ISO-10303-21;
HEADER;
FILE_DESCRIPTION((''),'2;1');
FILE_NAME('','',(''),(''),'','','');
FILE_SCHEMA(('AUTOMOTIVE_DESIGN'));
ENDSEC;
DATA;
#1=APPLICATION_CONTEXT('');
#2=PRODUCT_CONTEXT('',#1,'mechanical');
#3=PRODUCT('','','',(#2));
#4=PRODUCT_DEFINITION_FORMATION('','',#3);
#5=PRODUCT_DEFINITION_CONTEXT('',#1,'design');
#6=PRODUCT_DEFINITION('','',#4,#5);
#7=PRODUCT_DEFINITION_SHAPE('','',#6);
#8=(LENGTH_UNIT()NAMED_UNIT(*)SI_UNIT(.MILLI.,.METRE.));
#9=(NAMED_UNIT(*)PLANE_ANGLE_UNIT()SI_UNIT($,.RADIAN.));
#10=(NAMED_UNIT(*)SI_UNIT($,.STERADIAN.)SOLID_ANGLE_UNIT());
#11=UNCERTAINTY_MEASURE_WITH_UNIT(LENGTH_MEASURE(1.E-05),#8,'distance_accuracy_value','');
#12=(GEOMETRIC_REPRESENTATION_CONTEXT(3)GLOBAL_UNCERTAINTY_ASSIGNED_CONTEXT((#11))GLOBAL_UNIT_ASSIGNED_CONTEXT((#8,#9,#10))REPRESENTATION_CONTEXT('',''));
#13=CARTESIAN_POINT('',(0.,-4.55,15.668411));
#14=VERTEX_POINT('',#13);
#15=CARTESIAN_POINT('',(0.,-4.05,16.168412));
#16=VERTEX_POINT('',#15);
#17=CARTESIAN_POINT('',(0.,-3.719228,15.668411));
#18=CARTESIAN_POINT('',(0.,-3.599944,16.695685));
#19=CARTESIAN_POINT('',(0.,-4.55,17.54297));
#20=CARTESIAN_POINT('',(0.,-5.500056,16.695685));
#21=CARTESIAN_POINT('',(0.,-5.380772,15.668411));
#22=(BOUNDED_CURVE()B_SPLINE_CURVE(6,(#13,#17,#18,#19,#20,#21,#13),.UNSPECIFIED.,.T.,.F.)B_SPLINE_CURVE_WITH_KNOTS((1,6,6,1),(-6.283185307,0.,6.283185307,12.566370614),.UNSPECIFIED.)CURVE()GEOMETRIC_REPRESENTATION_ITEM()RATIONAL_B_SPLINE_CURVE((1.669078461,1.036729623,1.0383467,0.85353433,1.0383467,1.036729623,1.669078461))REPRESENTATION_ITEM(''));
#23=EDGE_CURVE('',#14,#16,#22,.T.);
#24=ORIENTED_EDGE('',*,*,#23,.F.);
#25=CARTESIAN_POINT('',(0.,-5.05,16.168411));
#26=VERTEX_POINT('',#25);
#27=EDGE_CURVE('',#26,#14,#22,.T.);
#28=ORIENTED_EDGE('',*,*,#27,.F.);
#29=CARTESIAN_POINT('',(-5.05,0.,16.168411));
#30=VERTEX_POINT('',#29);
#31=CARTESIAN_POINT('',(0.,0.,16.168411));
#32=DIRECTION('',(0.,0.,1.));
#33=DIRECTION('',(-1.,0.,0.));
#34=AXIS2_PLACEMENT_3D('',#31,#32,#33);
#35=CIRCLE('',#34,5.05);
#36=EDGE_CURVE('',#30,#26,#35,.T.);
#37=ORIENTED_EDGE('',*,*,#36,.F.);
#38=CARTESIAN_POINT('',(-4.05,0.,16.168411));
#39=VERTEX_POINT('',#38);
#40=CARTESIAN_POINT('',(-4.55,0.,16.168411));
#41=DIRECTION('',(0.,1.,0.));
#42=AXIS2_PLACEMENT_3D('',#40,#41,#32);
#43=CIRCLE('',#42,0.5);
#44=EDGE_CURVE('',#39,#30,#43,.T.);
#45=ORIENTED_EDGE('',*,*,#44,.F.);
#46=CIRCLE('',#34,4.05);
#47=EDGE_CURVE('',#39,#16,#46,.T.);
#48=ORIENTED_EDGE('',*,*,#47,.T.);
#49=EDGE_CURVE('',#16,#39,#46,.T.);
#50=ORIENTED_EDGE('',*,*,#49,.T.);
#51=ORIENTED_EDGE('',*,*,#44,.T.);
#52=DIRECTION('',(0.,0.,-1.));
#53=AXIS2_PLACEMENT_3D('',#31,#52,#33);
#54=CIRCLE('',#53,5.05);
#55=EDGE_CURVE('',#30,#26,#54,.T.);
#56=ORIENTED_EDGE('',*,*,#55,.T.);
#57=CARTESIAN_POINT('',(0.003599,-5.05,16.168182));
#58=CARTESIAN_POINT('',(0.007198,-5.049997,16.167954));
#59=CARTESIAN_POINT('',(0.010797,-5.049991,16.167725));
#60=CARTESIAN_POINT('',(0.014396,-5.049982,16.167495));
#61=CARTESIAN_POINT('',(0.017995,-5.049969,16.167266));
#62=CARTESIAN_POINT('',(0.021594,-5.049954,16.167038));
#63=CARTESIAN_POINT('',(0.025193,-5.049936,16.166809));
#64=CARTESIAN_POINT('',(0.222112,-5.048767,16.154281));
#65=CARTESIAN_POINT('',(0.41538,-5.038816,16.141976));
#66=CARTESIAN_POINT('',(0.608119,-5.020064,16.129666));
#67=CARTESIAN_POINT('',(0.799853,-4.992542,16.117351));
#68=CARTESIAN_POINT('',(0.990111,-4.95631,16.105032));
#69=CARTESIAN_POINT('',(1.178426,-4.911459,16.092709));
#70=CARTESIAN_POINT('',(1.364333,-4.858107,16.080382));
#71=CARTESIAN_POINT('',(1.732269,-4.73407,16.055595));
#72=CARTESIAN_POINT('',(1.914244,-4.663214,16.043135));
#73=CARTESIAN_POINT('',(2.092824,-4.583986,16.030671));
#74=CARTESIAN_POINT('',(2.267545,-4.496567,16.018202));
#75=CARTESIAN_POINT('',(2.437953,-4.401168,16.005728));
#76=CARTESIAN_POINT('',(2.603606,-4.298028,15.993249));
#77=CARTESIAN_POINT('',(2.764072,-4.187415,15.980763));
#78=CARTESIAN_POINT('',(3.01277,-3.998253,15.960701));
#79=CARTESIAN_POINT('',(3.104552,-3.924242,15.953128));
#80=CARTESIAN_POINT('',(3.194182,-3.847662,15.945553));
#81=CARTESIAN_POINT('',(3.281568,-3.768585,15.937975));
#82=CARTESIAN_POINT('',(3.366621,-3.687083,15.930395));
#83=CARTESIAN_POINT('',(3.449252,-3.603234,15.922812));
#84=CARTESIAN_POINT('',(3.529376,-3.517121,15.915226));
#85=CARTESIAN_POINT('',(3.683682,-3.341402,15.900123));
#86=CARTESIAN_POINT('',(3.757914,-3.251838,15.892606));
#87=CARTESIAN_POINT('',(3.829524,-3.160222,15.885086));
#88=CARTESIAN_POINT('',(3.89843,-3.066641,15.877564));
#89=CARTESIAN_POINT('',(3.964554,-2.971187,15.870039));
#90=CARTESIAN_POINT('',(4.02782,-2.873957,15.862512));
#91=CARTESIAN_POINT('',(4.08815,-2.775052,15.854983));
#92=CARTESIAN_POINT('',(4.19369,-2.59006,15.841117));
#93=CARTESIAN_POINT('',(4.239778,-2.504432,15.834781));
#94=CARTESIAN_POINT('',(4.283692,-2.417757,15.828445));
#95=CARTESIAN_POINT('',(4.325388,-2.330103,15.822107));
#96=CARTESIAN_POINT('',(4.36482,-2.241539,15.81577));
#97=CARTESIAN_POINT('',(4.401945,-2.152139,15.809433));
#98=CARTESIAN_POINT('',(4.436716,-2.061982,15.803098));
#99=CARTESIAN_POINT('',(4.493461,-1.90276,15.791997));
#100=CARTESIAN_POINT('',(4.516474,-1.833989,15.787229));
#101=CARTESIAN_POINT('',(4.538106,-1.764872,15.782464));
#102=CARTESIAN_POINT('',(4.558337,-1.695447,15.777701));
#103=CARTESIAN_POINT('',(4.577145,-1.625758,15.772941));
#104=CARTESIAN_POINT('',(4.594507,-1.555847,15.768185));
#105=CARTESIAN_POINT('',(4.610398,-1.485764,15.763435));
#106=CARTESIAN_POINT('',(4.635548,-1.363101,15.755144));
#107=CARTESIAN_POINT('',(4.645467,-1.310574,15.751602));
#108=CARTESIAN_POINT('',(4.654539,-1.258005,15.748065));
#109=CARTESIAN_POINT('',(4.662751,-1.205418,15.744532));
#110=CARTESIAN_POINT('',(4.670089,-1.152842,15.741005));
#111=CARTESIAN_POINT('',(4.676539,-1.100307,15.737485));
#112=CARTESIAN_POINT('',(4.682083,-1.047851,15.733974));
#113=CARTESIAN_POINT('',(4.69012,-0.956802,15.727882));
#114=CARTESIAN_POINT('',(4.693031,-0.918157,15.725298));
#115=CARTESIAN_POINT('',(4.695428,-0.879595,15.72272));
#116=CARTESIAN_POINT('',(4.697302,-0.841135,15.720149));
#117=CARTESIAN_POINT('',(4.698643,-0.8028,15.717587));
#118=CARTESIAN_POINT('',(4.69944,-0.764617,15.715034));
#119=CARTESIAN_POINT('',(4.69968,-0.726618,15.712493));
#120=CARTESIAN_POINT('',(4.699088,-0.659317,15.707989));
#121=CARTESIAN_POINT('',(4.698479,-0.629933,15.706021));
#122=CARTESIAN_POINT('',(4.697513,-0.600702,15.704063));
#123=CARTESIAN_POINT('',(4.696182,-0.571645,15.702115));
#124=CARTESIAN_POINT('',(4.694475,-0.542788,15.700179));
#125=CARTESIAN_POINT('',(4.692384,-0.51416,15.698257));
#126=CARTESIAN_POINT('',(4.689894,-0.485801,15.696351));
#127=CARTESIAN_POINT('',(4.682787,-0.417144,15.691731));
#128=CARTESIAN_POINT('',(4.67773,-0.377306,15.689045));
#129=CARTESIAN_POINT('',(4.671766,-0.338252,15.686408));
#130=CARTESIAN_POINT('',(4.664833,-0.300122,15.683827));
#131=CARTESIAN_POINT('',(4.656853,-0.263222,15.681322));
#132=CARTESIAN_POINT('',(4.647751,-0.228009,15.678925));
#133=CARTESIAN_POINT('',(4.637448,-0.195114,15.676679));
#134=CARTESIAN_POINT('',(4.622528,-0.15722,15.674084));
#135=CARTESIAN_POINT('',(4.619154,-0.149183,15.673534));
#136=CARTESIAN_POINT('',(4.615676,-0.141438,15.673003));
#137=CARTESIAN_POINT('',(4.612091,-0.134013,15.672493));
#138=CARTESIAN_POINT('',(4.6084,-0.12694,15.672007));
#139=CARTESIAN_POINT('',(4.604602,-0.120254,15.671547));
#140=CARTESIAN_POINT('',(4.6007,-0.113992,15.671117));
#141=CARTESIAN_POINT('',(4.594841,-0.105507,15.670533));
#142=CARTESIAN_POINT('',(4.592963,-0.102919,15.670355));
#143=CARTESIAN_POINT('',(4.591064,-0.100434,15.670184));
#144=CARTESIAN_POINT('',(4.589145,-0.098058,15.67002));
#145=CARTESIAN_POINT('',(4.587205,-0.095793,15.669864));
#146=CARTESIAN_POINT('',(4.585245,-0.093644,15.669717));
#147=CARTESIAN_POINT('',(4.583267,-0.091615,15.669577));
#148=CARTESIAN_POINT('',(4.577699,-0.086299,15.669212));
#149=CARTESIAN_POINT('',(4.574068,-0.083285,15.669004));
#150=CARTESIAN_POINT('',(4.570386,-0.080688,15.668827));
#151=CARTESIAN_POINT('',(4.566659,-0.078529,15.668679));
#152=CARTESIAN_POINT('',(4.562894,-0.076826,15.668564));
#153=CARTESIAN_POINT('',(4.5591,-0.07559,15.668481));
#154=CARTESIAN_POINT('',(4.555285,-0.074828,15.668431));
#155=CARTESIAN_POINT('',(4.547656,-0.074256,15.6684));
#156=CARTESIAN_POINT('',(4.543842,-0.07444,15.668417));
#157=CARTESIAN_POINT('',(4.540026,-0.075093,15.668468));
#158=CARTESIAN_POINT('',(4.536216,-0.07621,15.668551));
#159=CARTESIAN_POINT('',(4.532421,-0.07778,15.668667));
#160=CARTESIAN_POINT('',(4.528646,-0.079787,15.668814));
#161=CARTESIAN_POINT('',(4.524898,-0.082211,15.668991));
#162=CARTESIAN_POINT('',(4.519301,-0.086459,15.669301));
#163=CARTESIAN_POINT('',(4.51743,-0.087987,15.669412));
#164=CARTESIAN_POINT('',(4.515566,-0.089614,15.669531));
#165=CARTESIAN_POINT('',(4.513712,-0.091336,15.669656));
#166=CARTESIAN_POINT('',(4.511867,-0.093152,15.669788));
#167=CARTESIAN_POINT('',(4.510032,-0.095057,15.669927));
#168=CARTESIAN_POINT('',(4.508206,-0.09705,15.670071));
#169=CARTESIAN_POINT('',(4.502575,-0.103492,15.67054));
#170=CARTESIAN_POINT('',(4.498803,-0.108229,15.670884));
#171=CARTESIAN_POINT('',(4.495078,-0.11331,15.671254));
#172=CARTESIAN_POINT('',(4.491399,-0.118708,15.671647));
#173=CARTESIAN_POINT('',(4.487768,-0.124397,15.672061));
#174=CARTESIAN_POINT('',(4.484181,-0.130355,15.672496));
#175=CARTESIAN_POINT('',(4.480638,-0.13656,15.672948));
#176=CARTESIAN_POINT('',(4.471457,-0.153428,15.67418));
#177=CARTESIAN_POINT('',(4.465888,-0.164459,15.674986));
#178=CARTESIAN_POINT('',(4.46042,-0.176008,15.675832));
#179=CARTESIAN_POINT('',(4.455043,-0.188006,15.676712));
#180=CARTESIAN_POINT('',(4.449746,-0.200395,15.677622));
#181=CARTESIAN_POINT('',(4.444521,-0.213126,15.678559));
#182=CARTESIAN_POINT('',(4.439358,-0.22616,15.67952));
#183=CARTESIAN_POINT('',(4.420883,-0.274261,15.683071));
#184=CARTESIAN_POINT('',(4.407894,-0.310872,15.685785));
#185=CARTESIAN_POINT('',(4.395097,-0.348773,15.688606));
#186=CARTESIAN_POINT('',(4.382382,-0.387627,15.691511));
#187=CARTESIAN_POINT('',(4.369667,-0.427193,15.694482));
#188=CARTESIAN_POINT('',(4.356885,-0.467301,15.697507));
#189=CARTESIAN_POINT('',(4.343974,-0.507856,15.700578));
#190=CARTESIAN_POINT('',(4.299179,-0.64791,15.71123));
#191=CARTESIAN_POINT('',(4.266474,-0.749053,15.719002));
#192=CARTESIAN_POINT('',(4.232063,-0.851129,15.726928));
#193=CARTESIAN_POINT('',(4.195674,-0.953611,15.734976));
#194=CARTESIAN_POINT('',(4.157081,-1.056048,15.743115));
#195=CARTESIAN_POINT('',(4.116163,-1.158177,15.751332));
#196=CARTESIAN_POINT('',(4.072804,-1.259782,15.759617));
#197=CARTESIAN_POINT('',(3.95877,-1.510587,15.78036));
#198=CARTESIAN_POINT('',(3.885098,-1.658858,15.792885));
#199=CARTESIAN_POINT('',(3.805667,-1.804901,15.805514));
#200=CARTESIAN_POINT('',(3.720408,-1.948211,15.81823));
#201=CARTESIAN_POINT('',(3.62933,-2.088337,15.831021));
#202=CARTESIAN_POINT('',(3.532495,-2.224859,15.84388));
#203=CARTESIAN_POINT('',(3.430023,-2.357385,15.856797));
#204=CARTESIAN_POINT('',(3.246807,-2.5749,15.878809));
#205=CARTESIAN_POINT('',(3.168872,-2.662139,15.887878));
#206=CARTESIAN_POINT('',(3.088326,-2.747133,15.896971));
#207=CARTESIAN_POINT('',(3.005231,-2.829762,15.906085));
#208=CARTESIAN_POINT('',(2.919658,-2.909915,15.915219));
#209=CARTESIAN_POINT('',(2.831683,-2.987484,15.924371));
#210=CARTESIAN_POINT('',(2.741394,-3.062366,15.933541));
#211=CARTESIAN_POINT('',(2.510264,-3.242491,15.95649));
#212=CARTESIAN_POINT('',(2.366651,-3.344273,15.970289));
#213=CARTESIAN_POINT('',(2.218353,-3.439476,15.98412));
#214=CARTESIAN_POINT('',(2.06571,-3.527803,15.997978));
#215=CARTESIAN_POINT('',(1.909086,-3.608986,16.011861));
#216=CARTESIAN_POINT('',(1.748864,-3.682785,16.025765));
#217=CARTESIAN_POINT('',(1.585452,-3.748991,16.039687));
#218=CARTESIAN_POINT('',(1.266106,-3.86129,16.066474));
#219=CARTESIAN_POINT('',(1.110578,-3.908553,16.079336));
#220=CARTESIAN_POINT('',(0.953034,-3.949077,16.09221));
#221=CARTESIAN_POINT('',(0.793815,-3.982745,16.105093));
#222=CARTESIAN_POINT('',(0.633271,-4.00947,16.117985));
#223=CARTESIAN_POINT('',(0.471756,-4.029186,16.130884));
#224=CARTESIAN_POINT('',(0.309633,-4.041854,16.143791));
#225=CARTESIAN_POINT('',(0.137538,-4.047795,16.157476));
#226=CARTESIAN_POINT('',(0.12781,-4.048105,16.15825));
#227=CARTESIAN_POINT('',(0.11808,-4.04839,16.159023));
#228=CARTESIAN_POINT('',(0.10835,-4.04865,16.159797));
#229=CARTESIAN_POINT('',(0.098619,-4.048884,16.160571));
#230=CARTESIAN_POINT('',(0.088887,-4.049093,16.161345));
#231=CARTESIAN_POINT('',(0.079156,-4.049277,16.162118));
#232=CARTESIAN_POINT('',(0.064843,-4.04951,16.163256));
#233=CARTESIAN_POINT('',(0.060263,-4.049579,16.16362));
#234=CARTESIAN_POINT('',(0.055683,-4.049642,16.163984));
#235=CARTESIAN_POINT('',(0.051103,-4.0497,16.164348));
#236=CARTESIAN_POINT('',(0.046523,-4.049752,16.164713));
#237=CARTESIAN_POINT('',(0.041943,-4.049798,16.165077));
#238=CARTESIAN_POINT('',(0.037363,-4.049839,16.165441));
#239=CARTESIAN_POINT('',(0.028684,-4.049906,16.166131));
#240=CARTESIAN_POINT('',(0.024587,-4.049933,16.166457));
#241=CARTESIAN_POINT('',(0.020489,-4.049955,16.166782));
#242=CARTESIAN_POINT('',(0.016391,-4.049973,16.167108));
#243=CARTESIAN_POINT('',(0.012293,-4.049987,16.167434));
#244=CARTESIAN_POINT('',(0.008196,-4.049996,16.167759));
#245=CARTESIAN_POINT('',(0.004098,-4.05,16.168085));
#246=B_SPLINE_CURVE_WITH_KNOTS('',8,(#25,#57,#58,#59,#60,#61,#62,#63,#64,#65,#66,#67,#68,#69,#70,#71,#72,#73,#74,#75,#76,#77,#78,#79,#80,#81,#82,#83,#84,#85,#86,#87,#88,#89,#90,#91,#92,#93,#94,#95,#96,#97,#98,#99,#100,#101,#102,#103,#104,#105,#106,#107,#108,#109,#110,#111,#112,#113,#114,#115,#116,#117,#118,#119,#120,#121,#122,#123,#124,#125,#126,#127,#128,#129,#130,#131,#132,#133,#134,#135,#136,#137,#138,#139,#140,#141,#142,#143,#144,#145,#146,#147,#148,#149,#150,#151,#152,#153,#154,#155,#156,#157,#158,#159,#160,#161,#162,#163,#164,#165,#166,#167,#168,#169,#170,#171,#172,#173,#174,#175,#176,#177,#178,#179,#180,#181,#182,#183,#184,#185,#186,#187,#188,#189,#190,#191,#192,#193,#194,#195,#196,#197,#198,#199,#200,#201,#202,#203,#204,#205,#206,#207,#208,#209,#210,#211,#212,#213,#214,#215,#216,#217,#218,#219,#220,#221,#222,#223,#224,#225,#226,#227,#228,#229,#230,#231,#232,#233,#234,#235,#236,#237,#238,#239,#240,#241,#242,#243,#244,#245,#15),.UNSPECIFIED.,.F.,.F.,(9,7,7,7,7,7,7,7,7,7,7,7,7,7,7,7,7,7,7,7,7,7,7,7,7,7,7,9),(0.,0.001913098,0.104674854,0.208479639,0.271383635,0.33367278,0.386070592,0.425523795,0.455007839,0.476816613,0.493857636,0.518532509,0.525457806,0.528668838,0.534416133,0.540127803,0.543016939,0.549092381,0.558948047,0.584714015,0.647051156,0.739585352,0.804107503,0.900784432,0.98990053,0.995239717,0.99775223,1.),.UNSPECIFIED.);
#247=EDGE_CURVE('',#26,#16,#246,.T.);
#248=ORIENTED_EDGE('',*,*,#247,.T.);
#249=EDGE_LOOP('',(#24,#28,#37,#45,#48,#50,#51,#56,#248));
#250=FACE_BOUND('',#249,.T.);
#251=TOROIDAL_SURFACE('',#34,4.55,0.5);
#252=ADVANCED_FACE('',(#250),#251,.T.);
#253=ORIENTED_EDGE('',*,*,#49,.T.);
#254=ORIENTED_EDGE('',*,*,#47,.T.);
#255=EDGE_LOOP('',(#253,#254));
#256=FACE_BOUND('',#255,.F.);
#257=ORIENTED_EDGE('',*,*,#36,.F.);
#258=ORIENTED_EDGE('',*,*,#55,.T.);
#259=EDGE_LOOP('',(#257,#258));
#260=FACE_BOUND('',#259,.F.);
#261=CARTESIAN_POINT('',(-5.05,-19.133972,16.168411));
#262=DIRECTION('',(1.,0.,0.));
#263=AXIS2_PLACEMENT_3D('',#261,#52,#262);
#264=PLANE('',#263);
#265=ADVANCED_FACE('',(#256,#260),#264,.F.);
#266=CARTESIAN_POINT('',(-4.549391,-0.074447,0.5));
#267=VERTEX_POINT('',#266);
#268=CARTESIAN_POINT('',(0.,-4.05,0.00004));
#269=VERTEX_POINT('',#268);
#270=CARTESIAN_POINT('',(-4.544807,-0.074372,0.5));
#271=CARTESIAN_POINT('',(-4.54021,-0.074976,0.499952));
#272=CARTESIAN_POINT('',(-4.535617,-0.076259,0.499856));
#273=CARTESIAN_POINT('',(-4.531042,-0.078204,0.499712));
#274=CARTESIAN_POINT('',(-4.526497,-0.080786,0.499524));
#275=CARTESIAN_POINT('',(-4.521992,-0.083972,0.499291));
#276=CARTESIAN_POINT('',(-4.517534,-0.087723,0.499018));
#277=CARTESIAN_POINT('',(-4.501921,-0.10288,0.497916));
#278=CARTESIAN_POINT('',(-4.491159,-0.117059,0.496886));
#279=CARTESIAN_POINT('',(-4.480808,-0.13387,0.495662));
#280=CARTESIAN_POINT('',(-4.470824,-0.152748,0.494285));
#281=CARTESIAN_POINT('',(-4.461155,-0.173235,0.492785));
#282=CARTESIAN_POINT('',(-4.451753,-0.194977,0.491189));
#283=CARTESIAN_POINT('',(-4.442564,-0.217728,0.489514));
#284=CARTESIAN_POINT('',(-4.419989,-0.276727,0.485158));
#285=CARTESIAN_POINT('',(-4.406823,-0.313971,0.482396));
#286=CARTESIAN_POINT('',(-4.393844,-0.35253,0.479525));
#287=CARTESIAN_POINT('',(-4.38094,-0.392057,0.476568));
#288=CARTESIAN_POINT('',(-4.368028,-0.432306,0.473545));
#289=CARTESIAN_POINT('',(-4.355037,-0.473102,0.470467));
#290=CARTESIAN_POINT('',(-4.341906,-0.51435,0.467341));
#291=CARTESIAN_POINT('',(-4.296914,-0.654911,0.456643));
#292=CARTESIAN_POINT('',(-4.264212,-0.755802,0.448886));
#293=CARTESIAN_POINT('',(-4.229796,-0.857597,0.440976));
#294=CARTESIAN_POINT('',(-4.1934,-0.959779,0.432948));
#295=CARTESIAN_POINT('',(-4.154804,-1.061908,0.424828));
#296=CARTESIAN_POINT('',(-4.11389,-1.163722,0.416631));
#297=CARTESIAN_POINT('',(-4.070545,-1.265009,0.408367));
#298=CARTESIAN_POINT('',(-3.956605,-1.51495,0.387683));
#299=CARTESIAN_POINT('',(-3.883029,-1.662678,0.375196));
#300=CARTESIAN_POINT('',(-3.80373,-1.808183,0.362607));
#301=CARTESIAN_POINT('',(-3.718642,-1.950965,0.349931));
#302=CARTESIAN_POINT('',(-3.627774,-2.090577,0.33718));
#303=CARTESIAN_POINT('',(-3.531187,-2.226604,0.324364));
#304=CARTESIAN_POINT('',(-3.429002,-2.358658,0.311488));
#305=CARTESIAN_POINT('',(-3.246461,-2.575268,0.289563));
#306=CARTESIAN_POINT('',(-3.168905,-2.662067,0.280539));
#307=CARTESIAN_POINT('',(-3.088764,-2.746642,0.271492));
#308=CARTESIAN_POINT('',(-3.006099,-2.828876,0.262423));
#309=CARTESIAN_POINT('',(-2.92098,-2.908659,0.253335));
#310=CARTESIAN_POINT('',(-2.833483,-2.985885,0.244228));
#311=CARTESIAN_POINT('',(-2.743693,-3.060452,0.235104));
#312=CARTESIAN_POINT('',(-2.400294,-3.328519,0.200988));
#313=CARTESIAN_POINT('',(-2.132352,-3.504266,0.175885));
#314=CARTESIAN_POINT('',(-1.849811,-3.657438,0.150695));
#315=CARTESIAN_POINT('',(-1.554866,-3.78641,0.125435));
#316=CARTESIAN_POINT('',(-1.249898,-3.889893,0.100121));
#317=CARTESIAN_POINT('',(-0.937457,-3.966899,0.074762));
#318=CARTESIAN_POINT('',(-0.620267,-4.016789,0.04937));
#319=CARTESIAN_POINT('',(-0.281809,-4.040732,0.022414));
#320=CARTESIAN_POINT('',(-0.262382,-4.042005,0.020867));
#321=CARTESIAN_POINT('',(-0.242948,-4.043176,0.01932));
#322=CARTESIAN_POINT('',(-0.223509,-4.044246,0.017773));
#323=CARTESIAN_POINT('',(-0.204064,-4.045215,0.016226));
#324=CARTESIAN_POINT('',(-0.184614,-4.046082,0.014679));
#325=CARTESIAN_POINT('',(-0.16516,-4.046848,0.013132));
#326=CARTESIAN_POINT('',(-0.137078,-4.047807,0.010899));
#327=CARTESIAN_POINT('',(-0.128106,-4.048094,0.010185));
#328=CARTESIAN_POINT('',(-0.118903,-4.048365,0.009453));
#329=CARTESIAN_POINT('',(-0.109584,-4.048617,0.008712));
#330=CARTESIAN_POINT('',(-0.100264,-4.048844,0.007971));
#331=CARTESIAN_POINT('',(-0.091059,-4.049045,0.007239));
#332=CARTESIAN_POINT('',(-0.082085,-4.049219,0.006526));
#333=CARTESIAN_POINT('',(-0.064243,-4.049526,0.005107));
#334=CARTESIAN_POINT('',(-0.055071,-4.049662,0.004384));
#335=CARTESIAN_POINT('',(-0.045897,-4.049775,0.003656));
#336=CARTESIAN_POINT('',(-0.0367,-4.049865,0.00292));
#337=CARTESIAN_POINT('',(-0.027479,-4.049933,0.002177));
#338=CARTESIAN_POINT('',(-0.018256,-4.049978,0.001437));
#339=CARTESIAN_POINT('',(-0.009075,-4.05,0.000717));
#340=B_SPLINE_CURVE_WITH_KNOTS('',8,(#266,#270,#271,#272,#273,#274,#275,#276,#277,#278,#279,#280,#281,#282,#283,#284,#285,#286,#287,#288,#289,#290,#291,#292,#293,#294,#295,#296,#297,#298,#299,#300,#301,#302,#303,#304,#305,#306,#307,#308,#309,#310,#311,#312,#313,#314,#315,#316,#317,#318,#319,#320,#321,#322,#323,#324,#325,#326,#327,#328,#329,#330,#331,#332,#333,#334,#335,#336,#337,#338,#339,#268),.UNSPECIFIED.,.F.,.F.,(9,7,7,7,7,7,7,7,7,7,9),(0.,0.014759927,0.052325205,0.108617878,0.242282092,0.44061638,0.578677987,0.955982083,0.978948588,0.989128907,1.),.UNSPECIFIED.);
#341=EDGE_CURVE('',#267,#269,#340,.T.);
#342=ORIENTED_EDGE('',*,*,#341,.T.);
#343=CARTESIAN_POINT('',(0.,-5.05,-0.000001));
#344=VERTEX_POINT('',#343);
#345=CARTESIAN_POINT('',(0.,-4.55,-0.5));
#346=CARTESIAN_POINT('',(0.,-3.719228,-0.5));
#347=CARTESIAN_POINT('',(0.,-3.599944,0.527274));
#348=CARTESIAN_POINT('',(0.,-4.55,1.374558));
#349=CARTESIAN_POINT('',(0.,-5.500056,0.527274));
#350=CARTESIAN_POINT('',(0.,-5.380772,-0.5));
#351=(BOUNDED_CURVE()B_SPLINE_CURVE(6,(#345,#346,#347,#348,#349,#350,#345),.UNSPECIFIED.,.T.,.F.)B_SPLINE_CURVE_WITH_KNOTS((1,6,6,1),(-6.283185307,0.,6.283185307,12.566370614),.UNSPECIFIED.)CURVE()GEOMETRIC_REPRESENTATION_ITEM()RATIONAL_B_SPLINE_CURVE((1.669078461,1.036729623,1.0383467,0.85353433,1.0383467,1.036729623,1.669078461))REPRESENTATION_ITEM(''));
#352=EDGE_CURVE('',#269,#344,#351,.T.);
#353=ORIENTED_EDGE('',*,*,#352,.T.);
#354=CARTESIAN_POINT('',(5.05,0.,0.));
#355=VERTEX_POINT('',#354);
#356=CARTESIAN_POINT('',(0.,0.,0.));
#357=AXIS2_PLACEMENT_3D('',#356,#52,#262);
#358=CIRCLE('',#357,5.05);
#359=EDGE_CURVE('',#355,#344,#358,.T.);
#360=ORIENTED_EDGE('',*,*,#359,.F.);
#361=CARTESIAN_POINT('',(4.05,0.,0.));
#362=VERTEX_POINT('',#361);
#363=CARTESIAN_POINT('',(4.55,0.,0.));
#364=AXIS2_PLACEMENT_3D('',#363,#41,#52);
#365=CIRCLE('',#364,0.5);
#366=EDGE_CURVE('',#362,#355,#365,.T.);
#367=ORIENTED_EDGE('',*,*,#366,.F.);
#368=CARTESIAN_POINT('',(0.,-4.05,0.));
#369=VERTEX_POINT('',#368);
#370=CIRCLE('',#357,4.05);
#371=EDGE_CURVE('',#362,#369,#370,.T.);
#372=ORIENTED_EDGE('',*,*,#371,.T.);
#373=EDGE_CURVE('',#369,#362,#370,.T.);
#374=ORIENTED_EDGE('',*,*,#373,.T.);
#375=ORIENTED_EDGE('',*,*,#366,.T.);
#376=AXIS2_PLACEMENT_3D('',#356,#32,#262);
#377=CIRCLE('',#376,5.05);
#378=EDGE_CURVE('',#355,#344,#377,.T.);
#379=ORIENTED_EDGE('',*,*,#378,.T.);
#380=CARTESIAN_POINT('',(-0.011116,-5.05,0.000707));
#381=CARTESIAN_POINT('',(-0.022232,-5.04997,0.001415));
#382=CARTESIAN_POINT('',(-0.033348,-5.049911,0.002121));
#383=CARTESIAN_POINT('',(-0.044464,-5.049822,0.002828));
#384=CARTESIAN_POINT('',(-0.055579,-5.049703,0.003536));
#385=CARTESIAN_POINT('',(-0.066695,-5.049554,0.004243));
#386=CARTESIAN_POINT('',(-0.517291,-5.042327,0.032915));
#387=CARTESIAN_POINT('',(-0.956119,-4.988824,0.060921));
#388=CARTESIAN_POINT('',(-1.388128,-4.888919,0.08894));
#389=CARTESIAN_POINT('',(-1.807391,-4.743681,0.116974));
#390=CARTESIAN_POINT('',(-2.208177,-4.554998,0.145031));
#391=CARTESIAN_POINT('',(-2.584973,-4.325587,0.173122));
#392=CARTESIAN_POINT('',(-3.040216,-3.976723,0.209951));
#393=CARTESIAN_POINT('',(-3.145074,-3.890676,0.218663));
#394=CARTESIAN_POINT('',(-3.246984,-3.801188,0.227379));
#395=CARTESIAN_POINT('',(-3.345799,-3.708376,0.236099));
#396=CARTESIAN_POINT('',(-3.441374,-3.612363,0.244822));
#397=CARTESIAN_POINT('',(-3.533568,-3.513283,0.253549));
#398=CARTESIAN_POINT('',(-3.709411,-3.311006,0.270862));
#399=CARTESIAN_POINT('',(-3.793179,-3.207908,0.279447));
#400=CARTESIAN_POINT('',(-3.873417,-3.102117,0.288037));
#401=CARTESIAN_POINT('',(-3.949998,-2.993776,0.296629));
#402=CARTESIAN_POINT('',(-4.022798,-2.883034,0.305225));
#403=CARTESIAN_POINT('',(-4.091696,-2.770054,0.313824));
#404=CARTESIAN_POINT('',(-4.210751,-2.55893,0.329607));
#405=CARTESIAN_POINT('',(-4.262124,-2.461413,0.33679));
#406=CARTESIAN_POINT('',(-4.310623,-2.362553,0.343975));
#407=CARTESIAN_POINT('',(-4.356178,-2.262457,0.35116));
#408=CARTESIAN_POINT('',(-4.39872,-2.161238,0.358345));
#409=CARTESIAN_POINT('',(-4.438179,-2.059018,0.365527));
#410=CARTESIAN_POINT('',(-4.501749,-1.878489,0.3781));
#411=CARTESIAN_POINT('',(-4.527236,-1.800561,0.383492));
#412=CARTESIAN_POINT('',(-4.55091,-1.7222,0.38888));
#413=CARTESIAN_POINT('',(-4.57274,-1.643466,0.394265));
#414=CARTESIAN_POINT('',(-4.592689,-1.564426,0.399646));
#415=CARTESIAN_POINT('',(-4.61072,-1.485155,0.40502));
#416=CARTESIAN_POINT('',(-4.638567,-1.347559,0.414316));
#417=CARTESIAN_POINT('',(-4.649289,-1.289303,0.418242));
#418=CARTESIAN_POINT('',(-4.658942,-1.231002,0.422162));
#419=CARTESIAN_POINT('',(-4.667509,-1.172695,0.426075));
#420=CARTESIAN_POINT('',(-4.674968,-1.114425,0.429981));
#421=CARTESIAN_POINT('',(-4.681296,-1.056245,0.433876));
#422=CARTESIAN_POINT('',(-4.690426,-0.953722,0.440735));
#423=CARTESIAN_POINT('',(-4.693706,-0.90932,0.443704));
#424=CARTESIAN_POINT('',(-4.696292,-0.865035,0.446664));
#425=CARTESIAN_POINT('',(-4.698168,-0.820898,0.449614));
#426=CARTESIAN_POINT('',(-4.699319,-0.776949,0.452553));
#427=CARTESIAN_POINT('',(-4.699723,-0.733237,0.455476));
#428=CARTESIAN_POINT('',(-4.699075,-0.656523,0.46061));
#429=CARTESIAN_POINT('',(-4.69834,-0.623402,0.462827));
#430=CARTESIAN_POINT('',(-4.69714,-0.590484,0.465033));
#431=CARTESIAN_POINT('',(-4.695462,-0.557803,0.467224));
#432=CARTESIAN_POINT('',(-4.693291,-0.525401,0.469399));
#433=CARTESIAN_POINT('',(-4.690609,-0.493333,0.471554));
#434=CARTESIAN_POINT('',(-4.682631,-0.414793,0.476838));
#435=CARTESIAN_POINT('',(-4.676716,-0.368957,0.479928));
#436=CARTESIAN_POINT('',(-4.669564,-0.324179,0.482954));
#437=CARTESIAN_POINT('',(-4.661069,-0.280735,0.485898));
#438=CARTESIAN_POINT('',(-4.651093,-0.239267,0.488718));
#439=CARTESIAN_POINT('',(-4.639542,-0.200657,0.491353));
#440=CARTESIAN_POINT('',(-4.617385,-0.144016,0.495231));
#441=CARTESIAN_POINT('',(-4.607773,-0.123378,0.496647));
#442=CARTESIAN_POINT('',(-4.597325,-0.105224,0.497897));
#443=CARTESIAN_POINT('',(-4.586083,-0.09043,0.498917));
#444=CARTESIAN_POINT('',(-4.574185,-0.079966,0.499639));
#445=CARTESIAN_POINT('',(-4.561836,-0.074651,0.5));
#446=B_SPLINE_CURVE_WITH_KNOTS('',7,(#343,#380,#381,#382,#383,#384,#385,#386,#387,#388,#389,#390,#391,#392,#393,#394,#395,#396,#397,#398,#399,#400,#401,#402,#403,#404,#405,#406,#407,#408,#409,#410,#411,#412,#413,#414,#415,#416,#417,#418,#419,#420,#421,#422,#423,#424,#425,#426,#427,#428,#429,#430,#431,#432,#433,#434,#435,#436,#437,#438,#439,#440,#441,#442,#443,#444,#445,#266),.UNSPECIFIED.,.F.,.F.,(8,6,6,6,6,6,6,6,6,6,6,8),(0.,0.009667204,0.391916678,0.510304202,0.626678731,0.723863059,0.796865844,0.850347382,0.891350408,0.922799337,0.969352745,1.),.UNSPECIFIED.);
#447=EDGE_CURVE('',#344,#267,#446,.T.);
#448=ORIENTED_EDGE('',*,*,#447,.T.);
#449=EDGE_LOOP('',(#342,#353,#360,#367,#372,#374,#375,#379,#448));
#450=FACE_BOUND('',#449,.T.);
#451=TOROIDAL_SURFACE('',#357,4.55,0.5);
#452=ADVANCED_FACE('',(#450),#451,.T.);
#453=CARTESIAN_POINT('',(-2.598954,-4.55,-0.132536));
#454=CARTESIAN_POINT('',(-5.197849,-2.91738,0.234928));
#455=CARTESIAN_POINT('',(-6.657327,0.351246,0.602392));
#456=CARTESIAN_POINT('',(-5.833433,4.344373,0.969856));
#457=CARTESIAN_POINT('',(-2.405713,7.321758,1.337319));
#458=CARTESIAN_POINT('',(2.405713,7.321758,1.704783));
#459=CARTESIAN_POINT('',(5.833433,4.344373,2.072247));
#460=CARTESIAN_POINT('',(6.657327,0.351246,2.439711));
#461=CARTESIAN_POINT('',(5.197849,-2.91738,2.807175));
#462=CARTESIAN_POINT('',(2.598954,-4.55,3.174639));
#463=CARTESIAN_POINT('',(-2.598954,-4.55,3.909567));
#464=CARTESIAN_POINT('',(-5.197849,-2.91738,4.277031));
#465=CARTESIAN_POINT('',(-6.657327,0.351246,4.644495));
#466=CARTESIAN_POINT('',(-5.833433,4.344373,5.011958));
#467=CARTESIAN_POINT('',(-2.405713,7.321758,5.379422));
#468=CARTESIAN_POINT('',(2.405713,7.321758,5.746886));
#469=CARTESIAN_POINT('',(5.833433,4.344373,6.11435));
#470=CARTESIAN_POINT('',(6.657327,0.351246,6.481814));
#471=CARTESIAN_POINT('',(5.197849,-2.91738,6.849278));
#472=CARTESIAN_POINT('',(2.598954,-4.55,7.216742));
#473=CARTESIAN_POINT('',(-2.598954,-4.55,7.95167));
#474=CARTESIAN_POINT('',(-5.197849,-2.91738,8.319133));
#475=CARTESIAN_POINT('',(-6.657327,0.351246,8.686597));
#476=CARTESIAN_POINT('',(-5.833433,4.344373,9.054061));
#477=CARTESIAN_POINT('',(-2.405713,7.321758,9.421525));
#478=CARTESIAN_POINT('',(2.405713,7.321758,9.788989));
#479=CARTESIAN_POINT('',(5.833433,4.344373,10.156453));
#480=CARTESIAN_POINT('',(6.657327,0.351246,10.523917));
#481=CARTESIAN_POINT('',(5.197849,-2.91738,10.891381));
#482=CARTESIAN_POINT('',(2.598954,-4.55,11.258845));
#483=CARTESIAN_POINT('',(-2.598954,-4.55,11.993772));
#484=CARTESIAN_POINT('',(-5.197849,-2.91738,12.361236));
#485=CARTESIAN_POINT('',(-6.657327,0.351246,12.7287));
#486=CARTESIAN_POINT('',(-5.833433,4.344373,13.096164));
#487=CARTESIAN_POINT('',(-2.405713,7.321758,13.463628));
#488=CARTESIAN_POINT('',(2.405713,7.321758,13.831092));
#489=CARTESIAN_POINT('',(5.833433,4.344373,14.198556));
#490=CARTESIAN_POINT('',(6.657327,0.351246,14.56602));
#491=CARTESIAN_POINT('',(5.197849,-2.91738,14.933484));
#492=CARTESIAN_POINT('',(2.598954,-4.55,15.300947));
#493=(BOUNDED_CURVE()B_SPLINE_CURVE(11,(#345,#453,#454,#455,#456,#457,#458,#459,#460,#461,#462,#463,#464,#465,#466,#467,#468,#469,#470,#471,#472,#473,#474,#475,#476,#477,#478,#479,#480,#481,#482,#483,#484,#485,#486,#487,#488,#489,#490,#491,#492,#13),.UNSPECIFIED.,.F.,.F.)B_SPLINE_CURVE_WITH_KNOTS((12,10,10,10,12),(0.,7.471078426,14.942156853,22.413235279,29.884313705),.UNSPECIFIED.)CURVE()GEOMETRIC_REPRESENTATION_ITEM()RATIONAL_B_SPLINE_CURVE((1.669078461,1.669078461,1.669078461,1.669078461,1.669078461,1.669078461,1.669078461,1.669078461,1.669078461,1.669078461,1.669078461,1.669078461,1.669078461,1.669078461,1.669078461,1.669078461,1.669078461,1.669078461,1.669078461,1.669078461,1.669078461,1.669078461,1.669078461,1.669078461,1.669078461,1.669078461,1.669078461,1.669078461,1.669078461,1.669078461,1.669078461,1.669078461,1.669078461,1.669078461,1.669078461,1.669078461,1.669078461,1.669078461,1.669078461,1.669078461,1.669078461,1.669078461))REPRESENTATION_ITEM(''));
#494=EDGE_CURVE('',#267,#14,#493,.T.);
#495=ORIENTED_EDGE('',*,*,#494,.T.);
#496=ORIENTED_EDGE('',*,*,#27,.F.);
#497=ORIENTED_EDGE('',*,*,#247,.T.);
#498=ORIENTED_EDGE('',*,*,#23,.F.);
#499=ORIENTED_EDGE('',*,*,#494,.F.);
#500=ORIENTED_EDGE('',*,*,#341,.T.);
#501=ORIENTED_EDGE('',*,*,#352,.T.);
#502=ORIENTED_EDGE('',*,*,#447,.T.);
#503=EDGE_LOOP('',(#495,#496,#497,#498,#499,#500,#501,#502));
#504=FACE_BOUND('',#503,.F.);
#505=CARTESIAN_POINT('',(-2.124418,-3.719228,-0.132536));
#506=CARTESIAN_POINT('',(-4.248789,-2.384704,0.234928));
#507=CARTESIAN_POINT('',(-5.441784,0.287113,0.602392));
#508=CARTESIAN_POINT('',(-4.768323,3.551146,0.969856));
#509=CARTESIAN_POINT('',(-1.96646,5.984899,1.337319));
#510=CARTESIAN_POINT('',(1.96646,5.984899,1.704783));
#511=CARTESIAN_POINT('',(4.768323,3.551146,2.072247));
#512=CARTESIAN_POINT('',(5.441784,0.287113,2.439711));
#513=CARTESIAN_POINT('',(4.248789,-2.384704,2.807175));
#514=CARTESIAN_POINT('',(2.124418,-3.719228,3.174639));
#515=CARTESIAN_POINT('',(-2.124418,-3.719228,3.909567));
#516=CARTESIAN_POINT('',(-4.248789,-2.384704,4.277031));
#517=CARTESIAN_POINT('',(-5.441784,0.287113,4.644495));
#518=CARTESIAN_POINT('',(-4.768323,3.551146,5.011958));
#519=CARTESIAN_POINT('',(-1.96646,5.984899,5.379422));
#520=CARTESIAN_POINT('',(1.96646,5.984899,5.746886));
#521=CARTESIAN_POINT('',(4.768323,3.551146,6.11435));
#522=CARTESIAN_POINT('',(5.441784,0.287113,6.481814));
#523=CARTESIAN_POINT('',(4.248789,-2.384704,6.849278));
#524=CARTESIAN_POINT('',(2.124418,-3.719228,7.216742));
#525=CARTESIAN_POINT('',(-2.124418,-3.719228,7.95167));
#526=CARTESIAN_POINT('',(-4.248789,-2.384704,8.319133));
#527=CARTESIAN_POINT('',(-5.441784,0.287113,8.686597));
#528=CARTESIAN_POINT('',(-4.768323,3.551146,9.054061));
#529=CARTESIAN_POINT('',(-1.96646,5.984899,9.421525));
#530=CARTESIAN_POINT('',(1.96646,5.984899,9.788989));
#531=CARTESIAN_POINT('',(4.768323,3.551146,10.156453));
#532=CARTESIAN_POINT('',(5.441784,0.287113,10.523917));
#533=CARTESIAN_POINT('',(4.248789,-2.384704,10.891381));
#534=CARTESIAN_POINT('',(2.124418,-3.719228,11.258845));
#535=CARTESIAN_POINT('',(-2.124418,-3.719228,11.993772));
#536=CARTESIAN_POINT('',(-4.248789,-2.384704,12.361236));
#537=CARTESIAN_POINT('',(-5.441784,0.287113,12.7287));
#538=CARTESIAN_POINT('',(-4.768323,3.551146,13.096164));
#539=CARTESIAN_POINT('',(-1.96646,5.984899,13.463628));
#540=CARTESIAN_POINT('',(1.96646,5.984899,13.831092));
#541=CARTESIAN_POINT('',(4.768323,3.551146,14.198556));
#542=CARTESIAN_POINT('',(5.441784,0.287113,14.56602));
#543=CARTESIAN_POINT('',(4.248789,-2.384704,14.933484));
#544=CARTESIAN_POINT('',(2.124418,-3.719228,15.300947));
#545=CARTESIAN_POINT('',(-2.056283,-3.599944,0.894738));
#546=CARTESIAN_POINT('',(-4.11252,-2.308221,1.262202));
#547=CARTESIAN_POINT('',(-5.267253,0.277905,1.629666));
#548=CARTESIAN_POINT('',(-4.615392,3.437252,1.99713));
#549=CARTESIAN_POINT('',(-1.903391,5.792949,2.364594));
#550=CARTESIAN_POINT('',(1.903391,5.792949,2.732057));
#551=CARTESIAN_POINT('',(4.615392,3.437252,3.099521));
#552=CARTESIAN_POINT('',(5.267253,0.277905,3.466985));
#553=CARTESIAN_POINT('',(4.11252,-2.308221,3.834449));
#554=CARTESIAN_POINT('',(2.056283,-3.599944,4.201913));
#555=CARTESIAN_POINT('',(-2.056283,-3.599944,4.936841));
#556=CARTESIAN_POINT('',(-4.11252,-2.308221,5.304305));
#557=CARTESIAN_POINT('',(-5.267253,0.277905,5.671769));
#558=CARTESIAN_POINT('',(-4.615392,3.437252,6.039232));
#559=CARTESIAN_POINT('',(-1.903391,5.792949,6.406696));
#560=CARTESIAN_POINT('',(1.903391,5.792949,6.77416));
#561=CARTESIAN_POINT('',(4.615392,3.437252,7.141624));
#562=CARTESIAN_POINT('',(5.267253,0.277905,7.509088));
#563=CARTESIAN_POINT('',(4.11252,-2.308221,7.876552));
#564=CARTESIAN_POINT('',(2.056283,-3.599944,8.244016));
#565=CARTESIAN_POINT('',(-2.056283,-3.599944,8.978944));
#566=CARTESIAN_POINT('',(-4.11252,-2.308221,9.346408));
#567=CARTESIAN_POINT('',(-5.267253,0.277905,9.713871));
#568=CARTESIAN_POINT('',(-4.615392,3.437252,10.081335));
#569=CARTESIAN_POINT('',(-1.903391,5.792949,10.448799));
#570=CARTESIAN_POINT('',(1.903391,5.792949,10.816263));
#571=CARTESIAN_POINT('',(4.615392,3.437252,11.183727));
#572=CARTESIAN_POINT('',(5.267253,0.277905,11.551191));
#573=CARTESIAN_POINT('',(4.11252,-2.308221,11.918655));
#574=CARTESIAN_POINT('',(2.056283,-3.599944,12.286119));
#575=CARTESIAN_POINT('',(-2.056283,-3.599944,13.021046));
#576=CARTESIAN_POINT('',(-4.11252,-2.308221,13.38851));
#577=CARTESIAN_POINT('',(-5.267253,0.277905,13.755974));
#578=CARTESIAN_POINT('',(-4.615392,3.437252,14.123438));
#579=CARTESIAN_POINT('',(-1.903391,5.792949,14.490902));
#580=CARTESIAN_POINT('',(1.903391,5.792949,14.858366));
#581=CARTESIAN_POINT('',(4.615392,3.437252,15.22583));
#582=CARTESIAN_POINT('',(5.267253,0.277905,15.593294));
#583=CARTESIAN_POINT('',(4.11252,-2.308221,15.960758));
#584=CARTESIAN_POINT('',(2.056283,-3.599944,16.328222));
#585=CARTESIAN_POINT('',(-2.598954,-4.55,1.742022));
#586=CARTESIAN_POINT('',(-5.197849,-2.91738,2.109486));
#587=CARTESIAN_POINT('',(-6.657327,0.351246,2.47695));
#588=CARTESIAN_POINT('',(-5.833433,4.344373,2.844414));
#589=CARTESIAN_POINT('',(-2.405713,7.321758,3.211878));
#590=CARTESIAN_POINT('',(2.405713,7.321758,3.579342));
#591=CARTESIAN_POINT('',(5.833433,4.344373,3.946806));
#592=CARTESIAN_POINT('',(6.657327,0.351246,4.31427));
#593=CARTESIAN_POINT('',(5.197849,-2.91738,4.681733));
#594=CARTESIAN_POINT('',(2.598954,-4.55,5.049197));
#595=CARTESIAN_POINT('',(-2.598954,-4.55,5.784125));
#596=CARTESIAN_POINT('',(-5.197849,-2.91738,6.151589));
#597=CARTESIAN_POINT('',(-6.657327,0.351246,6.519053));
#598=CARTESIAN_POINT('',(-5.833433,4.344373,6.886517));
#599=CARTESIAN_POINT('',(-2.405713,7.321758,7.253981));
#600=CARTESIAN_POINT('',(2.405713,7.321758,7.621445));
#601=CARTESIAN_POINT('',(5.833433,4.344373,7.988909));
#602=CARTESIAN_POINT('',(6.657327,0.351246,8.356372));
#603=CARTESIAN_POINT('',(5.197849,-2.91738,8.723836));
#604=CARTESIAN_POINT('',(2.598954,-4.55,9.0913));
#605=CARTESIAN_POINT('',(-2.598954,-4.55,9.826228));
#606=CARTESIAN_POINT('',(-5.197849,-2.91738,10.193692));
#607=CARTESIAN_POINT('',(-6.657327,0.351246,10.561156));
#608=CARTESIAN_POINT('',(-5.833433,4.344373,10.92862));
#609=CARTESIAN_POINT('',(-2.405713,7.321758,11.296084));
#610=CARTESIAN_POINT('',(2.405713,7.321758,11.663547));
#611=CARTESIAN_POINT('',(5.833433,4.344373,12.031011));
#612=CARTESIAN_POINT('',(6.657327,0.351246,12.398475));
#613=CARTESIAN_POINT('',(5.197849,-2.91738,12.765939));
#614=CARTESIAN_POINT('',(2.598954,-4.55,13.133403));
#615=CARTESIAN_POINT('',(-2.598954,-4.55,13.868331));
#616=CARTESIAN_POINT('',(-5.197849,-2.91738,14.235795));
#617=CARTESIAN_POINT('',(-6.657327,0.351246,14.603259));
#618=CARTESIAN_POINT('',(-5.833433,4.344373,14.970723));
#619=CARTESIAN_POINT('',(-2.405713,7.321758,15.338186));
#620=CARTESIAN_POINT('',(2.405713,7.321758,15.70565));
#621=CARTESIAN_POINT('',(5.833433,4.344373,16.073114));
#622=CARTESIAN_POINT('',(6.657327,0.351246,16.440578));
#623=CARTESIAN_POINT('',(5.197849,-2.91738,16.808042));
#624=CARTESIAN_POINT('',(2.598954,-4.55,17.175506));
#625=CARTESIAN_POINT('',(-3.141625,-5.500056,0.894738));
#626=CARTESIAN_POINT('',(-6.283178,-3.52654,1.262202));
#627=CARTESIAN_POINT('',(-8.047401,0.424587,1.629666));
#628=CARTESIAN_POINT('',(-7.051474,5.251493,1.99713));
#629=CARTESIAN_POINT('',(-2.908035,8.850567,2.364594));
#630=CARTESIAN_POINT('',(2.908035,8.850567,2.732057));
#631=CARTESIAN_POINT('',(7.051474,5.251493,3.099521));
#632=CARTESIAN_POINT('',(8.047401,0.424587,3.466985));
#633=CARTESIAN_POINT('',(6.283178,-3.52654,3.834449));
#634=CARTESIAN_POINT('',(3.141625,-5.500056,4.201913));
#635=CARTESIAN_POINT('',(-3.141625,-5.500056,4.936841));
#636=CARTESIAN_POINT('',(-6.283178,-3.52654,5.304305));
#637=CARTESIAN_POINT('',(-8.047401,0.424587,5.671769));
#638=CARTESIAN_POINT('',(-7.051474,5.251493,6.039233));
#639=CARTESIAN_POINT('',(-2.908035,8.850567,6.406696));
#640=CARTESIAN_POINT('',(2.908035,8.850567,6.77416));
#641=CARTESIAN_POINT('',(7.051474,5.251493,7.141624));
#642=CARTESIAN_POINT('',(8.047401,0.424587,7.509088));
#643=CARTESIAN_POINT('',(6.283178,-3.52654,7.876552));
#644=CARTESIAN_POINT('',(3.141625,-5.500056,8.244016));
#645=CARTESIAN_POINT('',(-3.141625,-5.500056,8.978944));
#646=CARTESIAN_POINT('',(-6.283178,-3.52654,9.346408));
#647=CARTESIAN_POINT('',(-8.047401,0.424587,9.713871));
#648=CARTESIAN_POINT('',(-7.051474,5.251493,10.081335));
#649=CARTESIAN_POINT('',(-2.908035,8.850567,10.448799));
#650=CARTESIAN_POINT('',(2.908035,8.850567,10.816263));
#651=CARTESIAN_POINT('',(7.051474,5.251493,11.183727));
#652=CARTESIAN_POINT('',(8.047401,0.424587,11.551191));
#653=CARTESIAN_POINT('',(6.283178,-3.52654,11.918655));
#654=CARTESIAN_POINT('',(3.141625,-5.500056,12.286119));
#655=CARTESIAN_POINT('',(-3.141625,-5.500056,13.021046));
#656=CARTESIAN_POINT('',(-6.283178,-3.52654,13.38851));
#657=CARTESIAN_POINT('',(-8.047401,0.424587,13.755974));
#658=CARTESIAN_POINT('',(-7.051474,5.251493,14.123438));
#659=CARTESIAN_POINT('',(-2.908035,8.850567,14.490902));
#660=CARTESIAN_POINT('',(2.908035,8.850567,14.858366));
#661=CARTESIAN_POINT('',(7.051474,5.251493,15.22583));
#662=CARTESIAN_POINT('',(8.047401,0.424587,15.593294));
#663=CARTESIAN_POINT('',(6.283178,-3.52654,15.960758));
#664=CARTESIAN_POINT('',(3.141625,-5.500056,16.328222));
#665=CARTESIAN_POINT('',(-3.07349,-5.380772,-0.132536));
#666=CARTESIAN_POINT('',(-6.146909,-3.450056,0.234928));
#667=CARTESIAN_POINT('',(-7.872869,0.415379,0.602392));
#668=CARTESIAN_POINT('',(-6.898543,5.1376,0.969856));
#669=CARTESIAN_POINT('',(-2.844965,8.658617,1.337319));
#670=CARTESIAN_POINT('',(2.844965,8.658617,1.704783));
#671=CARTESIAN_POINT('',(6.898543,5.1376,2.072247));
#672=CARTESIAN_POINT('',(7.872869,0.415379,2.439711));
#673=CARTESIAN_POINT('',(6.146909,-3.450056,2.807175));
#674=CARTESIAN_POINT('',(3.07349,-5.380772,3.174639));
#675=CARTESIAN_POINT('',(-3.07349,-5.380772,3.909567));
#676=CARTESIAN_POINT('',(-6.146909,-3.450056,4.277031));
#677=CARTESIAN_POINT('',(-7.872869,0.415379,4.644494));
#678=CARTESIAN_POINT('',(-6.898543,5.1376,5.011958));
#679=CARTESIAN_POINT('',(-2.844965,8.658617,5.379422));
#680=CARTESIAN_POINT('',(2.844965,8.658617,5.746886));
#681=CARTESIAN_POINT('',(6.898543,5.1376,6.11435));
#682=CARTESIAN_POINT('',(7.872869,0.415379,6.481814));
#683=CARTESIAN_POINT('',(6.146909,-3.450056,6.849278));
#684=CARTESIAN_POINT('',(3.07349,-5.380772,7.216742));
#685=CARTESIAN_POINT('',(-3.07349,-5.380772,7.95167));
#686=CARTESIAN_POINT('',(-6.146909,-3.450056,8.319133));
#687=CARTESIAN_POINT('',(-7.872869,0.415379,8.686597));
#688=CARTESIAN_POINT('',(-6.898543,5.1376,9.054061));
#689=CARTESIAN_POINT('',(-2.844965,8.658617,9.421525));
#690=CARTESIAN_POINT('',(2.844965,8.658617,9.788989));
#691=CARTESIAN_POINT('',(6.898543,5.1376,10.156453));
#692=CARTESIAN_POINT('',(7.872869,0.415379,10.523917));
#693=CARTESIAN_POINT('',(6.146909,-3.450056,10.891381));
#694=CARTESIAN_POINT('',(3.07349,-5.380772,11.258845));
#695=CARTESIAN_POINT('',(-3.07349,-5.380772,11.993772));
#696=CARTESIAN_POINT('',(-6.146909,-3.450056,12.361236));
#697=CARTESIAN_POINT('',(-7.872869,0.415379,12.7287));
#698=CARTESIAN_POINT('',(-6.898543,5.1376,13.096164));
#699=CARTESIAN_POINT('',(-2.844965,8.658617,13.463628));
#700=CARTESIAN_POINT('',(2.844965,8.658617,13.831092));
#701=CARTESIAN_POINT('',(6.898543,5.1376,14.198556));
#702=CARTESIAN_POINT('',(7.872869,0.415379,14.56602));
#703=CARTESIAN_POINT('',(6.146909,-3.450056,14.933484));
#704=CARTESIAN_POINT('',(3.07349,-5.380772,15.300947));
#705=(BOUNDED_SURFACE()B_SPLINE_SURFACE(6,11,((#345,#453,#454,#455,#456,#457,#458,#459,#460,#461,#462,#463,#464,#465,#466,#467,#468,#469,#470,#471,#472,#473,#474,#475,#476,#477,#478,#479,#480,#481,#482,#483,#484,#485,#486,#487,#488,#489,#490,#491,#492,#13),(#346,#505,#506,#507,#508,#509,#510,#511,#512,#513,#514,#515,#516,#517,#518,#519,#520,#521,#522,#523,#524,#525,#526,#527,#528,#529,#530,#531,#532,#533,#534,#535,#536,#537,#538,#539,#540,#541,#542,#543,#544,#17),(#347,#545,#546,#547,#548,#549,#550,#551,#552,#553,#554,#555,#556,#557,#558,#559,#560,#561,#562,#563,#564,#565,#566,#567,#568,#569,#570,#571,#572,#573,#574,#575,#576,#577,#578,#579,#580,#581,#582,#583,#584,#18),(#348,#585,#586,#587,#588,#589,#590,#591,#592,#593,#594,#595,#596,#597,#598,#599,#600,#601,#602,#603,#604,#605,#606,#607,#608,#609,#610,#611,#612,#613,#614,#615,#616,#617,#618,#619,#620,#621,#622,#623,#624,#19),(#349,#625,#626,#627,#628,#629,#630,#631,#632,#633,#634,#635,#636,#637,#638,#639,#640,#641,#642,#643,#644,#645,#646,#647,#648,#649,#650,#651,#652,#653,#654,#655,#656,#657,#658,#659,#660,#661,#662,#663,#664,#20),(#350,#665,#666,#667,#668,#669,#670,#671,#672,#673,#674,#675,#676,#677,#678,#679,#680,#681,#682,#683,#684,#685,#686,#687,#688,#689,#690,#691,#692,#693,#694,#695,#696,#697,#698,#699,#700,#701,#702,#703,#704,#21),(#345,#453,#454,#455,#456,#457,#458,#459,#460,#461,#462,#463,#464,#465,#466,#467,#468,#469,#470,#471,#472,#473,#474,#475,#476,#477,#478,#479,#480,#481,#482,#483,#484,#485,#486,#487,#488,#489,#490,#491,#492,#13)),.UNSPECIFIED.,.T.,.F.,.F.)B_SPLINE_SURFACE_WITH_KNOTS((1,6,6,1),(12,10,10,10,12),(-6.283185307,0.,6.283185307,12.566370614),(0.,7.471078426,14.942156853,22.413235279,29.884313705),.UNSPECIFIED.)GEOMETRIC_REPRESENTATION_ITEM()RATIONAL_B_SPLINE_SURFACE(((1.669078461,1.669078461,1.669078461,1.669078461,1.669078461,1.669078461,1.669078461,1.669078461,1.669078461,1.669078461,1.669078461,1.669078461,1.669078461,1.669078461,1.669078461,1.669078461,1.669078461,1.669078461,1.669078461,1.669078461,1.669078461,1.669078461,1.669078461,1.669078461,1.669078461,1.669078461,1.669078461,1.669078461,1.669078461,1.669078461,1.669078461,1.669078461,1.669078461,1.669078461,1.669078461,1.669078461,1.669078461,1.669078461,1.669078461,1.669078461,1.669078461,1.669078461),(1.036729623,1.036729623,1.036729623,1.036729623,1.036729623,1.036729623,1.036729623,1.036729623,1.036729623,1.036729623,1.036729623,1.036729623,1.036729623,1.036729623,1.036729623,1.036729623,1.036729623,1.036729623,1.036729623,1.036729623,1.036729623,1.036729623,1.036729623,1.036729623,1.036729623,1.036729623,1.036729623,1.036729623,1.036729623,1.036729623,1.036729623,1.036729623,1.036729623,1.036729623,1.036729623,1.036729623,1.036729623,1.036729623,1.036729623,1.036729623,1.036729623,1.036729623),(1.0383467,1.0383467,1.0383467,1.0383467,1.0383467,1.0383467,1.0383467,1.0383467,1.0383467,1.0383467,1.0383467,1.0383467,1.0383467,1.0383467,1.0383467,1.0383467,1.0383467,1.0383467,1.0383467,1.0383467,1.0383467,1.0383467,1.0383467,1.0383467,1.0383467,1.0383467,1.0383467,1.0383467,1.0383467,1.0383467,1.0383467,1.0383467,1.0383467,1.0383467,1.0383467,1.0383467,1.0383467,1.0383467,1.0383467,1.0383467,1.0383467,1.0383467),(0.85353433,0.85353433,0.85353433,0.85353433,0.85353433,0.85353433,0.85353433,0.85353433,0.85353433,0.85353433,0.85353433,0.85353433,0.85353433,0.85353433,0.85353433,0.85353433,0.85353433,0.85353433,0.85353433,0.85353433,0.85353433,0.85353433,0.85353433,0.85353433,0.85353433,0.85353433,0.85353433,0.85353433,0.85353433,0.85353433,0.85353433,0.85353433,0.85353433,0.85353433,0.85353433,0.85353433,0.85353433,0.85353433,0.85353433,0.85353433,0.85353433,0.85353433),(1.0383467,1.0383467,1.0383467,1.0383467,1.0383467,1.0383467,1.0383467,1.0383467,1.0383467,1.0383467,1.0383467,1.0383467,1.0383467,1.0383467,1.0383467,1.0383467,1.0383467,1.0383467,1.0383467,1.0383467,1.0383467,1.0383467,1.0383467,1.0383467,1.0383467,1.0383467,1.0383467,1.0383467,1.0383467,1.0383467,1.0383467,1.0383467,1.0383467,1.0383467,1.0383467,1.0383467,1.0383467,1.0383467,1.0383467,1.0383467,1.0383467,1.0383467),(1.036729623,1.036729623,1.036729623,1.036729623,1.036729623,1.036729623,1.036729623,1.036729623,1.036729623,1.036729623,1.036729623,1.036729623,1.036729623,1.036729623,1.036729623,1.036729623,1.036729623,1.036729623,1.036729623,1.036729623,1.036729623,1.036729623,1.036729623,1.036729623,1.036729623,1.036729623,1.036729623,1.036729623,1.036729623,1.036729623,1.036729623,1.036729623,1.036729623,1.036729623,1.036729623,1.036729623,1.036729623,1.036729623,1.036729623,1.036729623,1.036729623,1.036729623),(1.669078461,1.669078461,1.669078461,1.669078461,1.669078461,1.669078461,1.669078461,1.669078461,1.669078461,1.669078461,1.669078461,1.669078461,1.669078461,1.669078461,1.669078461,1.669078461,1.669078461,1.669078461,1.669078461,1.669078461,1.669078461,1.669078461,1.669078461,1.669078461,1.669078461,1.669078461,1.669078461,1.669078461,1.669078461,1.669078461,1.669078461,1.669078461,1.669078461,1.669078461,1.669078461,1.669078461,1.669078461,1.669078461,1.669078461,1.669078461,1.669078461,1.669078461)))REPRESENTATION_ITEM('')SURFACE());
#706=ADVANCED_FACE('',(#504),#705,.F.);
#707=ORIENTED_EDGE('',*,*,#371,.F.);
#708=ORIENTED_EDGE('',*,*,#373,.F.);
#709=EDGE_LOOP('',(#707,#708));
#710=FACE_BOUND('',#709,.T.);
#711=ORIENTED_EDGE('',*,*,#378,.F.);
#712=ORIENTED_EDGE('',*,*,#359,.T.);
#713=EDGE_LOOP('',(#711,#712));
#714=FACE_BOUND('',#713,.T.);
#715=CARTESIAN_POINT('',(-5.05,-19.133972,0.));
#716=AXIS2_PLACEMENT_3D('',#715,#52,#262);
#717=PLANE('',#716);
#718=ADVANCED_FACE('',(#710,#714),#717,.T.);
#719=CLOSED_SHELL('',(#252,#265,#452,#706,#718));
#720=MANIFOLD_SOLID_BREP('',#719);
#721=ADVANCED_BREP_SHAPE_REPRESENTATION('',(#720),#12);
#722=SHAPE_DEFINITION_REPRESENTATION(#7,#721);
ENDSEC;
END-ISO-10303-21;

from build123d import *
from build123d.topology import SkipClean

# Parameters (mm, degrees)
SWEEP1_PITCH                  = 4.042102825
SWEEP1_HEIGHT                 = 16.1684113
SWEEP1_RADIUS                 = 4.55
SWEEP1_START_ANGLE            = -90
SCHIZZO19_R                   = 0.5
SCHIZZO17_R                   = 0.5
SCHIZZO18_R                   = 0.5
TAGLIO_ESTRUSIONE1_DEPTH      = 19.133972003
TAGLIO_ESTRUSIONE1_DEPTH_BACK = 19.133972003
SCHIZZO23_W                   = 10.1
SCHIZZO23_H                   = 0.5


with BuildPart() as part:
    # Sweep1: sweep along a helix
    with BuildLine() as sweep1_path:
        add(Helix(SWEEP1_PITCH, SWEEP1_HEIGHT, SWEEP1_RADIUS, center=(0, 0, 0), direction=(0, 0, 1), lefthand=True, mode=Mode.PRIVATE).rotate(Axis((0, 0, 0), (0, 0, 1)), SWEEP1_START_ANGLE))
    # Schizzo19 → Sweep1 (sweep)
    with BuildSketch(Plane(origin=(0, 0, 0), x_dir=(0, 0, -1), z_dir=(1, 0, 0))):
        with Locations((0, -4.55)):
            Circle(SCHIZZO19_R)
    sweep(path=sweep1_path.line, is_frenet=True)

    # Schizzo17 → Rivoluzione3 (revolve)
    with SkipClean():  # the faces are left unmerged after this step: merging them gives an invalid solid
        with BuildSketch(Plane.ZY, mode=Mode.PRIVATE) as rivoluzione3_sk:
            with Locations((16.1684113, -4.55)):
                Circle(SCHIZZO17_R)
        revolve(rivoluzione3_sk.sketch.rotate(Axis((0, 0, -1000), (0, 0, 1)), 270), axis=Axis((0, 0, -1000), (0, 0, 1)))

    # Schizzo18 → Rivoluzione4 (revolve)
    with SkipClean():  # the faces are left unmerged after this step: merging them gives an invalid solid
        with BuildSketch(Plane(origin=(0, 0, 0), x_dir=(0, 0, -1), z_dir=(1, 0, 0)), mode=Mode.PRIVATE) as rivoluzione4_sk:
            with Locations((0, -4.55)):
                Circle(SCHIZZO18_R)
        revolve(rivoluzione4_sk.sketch.rotate(Axis((0, 0, 1000), (0, 0, -1)), 270), axis=Axis((0, 0, 1000), (0, 0, -1)))

    # Schizzo23 → Taglio-Estrusione1 (cut, two sides: drawn at the far end of the back side and taken through both)
    with BuildSketch(Plane(origin=(0, 0, 0), x_dir=(1, 0, 0), z_dir=(0, 1, 0)).offset(-TAGLIO_ESTRUSIONE1_DEPTH_BACK)):
        with Locations((0, 0.25)):
            Rectangle(SCHIZZO23_W, SCHIZZO23_H)
        with Locations((0, -16.4184113)):
            Rectangle(SCHIZZO23_W, SCHIZZO23_H)
    extrude(amount=TAGLIO_ESTRUSIONE1_DEPTH + TAGLIO_ESTRUSIONE1_DEPTH_BACK, mode=Mode.SUBTRACT)


solid = part.part
